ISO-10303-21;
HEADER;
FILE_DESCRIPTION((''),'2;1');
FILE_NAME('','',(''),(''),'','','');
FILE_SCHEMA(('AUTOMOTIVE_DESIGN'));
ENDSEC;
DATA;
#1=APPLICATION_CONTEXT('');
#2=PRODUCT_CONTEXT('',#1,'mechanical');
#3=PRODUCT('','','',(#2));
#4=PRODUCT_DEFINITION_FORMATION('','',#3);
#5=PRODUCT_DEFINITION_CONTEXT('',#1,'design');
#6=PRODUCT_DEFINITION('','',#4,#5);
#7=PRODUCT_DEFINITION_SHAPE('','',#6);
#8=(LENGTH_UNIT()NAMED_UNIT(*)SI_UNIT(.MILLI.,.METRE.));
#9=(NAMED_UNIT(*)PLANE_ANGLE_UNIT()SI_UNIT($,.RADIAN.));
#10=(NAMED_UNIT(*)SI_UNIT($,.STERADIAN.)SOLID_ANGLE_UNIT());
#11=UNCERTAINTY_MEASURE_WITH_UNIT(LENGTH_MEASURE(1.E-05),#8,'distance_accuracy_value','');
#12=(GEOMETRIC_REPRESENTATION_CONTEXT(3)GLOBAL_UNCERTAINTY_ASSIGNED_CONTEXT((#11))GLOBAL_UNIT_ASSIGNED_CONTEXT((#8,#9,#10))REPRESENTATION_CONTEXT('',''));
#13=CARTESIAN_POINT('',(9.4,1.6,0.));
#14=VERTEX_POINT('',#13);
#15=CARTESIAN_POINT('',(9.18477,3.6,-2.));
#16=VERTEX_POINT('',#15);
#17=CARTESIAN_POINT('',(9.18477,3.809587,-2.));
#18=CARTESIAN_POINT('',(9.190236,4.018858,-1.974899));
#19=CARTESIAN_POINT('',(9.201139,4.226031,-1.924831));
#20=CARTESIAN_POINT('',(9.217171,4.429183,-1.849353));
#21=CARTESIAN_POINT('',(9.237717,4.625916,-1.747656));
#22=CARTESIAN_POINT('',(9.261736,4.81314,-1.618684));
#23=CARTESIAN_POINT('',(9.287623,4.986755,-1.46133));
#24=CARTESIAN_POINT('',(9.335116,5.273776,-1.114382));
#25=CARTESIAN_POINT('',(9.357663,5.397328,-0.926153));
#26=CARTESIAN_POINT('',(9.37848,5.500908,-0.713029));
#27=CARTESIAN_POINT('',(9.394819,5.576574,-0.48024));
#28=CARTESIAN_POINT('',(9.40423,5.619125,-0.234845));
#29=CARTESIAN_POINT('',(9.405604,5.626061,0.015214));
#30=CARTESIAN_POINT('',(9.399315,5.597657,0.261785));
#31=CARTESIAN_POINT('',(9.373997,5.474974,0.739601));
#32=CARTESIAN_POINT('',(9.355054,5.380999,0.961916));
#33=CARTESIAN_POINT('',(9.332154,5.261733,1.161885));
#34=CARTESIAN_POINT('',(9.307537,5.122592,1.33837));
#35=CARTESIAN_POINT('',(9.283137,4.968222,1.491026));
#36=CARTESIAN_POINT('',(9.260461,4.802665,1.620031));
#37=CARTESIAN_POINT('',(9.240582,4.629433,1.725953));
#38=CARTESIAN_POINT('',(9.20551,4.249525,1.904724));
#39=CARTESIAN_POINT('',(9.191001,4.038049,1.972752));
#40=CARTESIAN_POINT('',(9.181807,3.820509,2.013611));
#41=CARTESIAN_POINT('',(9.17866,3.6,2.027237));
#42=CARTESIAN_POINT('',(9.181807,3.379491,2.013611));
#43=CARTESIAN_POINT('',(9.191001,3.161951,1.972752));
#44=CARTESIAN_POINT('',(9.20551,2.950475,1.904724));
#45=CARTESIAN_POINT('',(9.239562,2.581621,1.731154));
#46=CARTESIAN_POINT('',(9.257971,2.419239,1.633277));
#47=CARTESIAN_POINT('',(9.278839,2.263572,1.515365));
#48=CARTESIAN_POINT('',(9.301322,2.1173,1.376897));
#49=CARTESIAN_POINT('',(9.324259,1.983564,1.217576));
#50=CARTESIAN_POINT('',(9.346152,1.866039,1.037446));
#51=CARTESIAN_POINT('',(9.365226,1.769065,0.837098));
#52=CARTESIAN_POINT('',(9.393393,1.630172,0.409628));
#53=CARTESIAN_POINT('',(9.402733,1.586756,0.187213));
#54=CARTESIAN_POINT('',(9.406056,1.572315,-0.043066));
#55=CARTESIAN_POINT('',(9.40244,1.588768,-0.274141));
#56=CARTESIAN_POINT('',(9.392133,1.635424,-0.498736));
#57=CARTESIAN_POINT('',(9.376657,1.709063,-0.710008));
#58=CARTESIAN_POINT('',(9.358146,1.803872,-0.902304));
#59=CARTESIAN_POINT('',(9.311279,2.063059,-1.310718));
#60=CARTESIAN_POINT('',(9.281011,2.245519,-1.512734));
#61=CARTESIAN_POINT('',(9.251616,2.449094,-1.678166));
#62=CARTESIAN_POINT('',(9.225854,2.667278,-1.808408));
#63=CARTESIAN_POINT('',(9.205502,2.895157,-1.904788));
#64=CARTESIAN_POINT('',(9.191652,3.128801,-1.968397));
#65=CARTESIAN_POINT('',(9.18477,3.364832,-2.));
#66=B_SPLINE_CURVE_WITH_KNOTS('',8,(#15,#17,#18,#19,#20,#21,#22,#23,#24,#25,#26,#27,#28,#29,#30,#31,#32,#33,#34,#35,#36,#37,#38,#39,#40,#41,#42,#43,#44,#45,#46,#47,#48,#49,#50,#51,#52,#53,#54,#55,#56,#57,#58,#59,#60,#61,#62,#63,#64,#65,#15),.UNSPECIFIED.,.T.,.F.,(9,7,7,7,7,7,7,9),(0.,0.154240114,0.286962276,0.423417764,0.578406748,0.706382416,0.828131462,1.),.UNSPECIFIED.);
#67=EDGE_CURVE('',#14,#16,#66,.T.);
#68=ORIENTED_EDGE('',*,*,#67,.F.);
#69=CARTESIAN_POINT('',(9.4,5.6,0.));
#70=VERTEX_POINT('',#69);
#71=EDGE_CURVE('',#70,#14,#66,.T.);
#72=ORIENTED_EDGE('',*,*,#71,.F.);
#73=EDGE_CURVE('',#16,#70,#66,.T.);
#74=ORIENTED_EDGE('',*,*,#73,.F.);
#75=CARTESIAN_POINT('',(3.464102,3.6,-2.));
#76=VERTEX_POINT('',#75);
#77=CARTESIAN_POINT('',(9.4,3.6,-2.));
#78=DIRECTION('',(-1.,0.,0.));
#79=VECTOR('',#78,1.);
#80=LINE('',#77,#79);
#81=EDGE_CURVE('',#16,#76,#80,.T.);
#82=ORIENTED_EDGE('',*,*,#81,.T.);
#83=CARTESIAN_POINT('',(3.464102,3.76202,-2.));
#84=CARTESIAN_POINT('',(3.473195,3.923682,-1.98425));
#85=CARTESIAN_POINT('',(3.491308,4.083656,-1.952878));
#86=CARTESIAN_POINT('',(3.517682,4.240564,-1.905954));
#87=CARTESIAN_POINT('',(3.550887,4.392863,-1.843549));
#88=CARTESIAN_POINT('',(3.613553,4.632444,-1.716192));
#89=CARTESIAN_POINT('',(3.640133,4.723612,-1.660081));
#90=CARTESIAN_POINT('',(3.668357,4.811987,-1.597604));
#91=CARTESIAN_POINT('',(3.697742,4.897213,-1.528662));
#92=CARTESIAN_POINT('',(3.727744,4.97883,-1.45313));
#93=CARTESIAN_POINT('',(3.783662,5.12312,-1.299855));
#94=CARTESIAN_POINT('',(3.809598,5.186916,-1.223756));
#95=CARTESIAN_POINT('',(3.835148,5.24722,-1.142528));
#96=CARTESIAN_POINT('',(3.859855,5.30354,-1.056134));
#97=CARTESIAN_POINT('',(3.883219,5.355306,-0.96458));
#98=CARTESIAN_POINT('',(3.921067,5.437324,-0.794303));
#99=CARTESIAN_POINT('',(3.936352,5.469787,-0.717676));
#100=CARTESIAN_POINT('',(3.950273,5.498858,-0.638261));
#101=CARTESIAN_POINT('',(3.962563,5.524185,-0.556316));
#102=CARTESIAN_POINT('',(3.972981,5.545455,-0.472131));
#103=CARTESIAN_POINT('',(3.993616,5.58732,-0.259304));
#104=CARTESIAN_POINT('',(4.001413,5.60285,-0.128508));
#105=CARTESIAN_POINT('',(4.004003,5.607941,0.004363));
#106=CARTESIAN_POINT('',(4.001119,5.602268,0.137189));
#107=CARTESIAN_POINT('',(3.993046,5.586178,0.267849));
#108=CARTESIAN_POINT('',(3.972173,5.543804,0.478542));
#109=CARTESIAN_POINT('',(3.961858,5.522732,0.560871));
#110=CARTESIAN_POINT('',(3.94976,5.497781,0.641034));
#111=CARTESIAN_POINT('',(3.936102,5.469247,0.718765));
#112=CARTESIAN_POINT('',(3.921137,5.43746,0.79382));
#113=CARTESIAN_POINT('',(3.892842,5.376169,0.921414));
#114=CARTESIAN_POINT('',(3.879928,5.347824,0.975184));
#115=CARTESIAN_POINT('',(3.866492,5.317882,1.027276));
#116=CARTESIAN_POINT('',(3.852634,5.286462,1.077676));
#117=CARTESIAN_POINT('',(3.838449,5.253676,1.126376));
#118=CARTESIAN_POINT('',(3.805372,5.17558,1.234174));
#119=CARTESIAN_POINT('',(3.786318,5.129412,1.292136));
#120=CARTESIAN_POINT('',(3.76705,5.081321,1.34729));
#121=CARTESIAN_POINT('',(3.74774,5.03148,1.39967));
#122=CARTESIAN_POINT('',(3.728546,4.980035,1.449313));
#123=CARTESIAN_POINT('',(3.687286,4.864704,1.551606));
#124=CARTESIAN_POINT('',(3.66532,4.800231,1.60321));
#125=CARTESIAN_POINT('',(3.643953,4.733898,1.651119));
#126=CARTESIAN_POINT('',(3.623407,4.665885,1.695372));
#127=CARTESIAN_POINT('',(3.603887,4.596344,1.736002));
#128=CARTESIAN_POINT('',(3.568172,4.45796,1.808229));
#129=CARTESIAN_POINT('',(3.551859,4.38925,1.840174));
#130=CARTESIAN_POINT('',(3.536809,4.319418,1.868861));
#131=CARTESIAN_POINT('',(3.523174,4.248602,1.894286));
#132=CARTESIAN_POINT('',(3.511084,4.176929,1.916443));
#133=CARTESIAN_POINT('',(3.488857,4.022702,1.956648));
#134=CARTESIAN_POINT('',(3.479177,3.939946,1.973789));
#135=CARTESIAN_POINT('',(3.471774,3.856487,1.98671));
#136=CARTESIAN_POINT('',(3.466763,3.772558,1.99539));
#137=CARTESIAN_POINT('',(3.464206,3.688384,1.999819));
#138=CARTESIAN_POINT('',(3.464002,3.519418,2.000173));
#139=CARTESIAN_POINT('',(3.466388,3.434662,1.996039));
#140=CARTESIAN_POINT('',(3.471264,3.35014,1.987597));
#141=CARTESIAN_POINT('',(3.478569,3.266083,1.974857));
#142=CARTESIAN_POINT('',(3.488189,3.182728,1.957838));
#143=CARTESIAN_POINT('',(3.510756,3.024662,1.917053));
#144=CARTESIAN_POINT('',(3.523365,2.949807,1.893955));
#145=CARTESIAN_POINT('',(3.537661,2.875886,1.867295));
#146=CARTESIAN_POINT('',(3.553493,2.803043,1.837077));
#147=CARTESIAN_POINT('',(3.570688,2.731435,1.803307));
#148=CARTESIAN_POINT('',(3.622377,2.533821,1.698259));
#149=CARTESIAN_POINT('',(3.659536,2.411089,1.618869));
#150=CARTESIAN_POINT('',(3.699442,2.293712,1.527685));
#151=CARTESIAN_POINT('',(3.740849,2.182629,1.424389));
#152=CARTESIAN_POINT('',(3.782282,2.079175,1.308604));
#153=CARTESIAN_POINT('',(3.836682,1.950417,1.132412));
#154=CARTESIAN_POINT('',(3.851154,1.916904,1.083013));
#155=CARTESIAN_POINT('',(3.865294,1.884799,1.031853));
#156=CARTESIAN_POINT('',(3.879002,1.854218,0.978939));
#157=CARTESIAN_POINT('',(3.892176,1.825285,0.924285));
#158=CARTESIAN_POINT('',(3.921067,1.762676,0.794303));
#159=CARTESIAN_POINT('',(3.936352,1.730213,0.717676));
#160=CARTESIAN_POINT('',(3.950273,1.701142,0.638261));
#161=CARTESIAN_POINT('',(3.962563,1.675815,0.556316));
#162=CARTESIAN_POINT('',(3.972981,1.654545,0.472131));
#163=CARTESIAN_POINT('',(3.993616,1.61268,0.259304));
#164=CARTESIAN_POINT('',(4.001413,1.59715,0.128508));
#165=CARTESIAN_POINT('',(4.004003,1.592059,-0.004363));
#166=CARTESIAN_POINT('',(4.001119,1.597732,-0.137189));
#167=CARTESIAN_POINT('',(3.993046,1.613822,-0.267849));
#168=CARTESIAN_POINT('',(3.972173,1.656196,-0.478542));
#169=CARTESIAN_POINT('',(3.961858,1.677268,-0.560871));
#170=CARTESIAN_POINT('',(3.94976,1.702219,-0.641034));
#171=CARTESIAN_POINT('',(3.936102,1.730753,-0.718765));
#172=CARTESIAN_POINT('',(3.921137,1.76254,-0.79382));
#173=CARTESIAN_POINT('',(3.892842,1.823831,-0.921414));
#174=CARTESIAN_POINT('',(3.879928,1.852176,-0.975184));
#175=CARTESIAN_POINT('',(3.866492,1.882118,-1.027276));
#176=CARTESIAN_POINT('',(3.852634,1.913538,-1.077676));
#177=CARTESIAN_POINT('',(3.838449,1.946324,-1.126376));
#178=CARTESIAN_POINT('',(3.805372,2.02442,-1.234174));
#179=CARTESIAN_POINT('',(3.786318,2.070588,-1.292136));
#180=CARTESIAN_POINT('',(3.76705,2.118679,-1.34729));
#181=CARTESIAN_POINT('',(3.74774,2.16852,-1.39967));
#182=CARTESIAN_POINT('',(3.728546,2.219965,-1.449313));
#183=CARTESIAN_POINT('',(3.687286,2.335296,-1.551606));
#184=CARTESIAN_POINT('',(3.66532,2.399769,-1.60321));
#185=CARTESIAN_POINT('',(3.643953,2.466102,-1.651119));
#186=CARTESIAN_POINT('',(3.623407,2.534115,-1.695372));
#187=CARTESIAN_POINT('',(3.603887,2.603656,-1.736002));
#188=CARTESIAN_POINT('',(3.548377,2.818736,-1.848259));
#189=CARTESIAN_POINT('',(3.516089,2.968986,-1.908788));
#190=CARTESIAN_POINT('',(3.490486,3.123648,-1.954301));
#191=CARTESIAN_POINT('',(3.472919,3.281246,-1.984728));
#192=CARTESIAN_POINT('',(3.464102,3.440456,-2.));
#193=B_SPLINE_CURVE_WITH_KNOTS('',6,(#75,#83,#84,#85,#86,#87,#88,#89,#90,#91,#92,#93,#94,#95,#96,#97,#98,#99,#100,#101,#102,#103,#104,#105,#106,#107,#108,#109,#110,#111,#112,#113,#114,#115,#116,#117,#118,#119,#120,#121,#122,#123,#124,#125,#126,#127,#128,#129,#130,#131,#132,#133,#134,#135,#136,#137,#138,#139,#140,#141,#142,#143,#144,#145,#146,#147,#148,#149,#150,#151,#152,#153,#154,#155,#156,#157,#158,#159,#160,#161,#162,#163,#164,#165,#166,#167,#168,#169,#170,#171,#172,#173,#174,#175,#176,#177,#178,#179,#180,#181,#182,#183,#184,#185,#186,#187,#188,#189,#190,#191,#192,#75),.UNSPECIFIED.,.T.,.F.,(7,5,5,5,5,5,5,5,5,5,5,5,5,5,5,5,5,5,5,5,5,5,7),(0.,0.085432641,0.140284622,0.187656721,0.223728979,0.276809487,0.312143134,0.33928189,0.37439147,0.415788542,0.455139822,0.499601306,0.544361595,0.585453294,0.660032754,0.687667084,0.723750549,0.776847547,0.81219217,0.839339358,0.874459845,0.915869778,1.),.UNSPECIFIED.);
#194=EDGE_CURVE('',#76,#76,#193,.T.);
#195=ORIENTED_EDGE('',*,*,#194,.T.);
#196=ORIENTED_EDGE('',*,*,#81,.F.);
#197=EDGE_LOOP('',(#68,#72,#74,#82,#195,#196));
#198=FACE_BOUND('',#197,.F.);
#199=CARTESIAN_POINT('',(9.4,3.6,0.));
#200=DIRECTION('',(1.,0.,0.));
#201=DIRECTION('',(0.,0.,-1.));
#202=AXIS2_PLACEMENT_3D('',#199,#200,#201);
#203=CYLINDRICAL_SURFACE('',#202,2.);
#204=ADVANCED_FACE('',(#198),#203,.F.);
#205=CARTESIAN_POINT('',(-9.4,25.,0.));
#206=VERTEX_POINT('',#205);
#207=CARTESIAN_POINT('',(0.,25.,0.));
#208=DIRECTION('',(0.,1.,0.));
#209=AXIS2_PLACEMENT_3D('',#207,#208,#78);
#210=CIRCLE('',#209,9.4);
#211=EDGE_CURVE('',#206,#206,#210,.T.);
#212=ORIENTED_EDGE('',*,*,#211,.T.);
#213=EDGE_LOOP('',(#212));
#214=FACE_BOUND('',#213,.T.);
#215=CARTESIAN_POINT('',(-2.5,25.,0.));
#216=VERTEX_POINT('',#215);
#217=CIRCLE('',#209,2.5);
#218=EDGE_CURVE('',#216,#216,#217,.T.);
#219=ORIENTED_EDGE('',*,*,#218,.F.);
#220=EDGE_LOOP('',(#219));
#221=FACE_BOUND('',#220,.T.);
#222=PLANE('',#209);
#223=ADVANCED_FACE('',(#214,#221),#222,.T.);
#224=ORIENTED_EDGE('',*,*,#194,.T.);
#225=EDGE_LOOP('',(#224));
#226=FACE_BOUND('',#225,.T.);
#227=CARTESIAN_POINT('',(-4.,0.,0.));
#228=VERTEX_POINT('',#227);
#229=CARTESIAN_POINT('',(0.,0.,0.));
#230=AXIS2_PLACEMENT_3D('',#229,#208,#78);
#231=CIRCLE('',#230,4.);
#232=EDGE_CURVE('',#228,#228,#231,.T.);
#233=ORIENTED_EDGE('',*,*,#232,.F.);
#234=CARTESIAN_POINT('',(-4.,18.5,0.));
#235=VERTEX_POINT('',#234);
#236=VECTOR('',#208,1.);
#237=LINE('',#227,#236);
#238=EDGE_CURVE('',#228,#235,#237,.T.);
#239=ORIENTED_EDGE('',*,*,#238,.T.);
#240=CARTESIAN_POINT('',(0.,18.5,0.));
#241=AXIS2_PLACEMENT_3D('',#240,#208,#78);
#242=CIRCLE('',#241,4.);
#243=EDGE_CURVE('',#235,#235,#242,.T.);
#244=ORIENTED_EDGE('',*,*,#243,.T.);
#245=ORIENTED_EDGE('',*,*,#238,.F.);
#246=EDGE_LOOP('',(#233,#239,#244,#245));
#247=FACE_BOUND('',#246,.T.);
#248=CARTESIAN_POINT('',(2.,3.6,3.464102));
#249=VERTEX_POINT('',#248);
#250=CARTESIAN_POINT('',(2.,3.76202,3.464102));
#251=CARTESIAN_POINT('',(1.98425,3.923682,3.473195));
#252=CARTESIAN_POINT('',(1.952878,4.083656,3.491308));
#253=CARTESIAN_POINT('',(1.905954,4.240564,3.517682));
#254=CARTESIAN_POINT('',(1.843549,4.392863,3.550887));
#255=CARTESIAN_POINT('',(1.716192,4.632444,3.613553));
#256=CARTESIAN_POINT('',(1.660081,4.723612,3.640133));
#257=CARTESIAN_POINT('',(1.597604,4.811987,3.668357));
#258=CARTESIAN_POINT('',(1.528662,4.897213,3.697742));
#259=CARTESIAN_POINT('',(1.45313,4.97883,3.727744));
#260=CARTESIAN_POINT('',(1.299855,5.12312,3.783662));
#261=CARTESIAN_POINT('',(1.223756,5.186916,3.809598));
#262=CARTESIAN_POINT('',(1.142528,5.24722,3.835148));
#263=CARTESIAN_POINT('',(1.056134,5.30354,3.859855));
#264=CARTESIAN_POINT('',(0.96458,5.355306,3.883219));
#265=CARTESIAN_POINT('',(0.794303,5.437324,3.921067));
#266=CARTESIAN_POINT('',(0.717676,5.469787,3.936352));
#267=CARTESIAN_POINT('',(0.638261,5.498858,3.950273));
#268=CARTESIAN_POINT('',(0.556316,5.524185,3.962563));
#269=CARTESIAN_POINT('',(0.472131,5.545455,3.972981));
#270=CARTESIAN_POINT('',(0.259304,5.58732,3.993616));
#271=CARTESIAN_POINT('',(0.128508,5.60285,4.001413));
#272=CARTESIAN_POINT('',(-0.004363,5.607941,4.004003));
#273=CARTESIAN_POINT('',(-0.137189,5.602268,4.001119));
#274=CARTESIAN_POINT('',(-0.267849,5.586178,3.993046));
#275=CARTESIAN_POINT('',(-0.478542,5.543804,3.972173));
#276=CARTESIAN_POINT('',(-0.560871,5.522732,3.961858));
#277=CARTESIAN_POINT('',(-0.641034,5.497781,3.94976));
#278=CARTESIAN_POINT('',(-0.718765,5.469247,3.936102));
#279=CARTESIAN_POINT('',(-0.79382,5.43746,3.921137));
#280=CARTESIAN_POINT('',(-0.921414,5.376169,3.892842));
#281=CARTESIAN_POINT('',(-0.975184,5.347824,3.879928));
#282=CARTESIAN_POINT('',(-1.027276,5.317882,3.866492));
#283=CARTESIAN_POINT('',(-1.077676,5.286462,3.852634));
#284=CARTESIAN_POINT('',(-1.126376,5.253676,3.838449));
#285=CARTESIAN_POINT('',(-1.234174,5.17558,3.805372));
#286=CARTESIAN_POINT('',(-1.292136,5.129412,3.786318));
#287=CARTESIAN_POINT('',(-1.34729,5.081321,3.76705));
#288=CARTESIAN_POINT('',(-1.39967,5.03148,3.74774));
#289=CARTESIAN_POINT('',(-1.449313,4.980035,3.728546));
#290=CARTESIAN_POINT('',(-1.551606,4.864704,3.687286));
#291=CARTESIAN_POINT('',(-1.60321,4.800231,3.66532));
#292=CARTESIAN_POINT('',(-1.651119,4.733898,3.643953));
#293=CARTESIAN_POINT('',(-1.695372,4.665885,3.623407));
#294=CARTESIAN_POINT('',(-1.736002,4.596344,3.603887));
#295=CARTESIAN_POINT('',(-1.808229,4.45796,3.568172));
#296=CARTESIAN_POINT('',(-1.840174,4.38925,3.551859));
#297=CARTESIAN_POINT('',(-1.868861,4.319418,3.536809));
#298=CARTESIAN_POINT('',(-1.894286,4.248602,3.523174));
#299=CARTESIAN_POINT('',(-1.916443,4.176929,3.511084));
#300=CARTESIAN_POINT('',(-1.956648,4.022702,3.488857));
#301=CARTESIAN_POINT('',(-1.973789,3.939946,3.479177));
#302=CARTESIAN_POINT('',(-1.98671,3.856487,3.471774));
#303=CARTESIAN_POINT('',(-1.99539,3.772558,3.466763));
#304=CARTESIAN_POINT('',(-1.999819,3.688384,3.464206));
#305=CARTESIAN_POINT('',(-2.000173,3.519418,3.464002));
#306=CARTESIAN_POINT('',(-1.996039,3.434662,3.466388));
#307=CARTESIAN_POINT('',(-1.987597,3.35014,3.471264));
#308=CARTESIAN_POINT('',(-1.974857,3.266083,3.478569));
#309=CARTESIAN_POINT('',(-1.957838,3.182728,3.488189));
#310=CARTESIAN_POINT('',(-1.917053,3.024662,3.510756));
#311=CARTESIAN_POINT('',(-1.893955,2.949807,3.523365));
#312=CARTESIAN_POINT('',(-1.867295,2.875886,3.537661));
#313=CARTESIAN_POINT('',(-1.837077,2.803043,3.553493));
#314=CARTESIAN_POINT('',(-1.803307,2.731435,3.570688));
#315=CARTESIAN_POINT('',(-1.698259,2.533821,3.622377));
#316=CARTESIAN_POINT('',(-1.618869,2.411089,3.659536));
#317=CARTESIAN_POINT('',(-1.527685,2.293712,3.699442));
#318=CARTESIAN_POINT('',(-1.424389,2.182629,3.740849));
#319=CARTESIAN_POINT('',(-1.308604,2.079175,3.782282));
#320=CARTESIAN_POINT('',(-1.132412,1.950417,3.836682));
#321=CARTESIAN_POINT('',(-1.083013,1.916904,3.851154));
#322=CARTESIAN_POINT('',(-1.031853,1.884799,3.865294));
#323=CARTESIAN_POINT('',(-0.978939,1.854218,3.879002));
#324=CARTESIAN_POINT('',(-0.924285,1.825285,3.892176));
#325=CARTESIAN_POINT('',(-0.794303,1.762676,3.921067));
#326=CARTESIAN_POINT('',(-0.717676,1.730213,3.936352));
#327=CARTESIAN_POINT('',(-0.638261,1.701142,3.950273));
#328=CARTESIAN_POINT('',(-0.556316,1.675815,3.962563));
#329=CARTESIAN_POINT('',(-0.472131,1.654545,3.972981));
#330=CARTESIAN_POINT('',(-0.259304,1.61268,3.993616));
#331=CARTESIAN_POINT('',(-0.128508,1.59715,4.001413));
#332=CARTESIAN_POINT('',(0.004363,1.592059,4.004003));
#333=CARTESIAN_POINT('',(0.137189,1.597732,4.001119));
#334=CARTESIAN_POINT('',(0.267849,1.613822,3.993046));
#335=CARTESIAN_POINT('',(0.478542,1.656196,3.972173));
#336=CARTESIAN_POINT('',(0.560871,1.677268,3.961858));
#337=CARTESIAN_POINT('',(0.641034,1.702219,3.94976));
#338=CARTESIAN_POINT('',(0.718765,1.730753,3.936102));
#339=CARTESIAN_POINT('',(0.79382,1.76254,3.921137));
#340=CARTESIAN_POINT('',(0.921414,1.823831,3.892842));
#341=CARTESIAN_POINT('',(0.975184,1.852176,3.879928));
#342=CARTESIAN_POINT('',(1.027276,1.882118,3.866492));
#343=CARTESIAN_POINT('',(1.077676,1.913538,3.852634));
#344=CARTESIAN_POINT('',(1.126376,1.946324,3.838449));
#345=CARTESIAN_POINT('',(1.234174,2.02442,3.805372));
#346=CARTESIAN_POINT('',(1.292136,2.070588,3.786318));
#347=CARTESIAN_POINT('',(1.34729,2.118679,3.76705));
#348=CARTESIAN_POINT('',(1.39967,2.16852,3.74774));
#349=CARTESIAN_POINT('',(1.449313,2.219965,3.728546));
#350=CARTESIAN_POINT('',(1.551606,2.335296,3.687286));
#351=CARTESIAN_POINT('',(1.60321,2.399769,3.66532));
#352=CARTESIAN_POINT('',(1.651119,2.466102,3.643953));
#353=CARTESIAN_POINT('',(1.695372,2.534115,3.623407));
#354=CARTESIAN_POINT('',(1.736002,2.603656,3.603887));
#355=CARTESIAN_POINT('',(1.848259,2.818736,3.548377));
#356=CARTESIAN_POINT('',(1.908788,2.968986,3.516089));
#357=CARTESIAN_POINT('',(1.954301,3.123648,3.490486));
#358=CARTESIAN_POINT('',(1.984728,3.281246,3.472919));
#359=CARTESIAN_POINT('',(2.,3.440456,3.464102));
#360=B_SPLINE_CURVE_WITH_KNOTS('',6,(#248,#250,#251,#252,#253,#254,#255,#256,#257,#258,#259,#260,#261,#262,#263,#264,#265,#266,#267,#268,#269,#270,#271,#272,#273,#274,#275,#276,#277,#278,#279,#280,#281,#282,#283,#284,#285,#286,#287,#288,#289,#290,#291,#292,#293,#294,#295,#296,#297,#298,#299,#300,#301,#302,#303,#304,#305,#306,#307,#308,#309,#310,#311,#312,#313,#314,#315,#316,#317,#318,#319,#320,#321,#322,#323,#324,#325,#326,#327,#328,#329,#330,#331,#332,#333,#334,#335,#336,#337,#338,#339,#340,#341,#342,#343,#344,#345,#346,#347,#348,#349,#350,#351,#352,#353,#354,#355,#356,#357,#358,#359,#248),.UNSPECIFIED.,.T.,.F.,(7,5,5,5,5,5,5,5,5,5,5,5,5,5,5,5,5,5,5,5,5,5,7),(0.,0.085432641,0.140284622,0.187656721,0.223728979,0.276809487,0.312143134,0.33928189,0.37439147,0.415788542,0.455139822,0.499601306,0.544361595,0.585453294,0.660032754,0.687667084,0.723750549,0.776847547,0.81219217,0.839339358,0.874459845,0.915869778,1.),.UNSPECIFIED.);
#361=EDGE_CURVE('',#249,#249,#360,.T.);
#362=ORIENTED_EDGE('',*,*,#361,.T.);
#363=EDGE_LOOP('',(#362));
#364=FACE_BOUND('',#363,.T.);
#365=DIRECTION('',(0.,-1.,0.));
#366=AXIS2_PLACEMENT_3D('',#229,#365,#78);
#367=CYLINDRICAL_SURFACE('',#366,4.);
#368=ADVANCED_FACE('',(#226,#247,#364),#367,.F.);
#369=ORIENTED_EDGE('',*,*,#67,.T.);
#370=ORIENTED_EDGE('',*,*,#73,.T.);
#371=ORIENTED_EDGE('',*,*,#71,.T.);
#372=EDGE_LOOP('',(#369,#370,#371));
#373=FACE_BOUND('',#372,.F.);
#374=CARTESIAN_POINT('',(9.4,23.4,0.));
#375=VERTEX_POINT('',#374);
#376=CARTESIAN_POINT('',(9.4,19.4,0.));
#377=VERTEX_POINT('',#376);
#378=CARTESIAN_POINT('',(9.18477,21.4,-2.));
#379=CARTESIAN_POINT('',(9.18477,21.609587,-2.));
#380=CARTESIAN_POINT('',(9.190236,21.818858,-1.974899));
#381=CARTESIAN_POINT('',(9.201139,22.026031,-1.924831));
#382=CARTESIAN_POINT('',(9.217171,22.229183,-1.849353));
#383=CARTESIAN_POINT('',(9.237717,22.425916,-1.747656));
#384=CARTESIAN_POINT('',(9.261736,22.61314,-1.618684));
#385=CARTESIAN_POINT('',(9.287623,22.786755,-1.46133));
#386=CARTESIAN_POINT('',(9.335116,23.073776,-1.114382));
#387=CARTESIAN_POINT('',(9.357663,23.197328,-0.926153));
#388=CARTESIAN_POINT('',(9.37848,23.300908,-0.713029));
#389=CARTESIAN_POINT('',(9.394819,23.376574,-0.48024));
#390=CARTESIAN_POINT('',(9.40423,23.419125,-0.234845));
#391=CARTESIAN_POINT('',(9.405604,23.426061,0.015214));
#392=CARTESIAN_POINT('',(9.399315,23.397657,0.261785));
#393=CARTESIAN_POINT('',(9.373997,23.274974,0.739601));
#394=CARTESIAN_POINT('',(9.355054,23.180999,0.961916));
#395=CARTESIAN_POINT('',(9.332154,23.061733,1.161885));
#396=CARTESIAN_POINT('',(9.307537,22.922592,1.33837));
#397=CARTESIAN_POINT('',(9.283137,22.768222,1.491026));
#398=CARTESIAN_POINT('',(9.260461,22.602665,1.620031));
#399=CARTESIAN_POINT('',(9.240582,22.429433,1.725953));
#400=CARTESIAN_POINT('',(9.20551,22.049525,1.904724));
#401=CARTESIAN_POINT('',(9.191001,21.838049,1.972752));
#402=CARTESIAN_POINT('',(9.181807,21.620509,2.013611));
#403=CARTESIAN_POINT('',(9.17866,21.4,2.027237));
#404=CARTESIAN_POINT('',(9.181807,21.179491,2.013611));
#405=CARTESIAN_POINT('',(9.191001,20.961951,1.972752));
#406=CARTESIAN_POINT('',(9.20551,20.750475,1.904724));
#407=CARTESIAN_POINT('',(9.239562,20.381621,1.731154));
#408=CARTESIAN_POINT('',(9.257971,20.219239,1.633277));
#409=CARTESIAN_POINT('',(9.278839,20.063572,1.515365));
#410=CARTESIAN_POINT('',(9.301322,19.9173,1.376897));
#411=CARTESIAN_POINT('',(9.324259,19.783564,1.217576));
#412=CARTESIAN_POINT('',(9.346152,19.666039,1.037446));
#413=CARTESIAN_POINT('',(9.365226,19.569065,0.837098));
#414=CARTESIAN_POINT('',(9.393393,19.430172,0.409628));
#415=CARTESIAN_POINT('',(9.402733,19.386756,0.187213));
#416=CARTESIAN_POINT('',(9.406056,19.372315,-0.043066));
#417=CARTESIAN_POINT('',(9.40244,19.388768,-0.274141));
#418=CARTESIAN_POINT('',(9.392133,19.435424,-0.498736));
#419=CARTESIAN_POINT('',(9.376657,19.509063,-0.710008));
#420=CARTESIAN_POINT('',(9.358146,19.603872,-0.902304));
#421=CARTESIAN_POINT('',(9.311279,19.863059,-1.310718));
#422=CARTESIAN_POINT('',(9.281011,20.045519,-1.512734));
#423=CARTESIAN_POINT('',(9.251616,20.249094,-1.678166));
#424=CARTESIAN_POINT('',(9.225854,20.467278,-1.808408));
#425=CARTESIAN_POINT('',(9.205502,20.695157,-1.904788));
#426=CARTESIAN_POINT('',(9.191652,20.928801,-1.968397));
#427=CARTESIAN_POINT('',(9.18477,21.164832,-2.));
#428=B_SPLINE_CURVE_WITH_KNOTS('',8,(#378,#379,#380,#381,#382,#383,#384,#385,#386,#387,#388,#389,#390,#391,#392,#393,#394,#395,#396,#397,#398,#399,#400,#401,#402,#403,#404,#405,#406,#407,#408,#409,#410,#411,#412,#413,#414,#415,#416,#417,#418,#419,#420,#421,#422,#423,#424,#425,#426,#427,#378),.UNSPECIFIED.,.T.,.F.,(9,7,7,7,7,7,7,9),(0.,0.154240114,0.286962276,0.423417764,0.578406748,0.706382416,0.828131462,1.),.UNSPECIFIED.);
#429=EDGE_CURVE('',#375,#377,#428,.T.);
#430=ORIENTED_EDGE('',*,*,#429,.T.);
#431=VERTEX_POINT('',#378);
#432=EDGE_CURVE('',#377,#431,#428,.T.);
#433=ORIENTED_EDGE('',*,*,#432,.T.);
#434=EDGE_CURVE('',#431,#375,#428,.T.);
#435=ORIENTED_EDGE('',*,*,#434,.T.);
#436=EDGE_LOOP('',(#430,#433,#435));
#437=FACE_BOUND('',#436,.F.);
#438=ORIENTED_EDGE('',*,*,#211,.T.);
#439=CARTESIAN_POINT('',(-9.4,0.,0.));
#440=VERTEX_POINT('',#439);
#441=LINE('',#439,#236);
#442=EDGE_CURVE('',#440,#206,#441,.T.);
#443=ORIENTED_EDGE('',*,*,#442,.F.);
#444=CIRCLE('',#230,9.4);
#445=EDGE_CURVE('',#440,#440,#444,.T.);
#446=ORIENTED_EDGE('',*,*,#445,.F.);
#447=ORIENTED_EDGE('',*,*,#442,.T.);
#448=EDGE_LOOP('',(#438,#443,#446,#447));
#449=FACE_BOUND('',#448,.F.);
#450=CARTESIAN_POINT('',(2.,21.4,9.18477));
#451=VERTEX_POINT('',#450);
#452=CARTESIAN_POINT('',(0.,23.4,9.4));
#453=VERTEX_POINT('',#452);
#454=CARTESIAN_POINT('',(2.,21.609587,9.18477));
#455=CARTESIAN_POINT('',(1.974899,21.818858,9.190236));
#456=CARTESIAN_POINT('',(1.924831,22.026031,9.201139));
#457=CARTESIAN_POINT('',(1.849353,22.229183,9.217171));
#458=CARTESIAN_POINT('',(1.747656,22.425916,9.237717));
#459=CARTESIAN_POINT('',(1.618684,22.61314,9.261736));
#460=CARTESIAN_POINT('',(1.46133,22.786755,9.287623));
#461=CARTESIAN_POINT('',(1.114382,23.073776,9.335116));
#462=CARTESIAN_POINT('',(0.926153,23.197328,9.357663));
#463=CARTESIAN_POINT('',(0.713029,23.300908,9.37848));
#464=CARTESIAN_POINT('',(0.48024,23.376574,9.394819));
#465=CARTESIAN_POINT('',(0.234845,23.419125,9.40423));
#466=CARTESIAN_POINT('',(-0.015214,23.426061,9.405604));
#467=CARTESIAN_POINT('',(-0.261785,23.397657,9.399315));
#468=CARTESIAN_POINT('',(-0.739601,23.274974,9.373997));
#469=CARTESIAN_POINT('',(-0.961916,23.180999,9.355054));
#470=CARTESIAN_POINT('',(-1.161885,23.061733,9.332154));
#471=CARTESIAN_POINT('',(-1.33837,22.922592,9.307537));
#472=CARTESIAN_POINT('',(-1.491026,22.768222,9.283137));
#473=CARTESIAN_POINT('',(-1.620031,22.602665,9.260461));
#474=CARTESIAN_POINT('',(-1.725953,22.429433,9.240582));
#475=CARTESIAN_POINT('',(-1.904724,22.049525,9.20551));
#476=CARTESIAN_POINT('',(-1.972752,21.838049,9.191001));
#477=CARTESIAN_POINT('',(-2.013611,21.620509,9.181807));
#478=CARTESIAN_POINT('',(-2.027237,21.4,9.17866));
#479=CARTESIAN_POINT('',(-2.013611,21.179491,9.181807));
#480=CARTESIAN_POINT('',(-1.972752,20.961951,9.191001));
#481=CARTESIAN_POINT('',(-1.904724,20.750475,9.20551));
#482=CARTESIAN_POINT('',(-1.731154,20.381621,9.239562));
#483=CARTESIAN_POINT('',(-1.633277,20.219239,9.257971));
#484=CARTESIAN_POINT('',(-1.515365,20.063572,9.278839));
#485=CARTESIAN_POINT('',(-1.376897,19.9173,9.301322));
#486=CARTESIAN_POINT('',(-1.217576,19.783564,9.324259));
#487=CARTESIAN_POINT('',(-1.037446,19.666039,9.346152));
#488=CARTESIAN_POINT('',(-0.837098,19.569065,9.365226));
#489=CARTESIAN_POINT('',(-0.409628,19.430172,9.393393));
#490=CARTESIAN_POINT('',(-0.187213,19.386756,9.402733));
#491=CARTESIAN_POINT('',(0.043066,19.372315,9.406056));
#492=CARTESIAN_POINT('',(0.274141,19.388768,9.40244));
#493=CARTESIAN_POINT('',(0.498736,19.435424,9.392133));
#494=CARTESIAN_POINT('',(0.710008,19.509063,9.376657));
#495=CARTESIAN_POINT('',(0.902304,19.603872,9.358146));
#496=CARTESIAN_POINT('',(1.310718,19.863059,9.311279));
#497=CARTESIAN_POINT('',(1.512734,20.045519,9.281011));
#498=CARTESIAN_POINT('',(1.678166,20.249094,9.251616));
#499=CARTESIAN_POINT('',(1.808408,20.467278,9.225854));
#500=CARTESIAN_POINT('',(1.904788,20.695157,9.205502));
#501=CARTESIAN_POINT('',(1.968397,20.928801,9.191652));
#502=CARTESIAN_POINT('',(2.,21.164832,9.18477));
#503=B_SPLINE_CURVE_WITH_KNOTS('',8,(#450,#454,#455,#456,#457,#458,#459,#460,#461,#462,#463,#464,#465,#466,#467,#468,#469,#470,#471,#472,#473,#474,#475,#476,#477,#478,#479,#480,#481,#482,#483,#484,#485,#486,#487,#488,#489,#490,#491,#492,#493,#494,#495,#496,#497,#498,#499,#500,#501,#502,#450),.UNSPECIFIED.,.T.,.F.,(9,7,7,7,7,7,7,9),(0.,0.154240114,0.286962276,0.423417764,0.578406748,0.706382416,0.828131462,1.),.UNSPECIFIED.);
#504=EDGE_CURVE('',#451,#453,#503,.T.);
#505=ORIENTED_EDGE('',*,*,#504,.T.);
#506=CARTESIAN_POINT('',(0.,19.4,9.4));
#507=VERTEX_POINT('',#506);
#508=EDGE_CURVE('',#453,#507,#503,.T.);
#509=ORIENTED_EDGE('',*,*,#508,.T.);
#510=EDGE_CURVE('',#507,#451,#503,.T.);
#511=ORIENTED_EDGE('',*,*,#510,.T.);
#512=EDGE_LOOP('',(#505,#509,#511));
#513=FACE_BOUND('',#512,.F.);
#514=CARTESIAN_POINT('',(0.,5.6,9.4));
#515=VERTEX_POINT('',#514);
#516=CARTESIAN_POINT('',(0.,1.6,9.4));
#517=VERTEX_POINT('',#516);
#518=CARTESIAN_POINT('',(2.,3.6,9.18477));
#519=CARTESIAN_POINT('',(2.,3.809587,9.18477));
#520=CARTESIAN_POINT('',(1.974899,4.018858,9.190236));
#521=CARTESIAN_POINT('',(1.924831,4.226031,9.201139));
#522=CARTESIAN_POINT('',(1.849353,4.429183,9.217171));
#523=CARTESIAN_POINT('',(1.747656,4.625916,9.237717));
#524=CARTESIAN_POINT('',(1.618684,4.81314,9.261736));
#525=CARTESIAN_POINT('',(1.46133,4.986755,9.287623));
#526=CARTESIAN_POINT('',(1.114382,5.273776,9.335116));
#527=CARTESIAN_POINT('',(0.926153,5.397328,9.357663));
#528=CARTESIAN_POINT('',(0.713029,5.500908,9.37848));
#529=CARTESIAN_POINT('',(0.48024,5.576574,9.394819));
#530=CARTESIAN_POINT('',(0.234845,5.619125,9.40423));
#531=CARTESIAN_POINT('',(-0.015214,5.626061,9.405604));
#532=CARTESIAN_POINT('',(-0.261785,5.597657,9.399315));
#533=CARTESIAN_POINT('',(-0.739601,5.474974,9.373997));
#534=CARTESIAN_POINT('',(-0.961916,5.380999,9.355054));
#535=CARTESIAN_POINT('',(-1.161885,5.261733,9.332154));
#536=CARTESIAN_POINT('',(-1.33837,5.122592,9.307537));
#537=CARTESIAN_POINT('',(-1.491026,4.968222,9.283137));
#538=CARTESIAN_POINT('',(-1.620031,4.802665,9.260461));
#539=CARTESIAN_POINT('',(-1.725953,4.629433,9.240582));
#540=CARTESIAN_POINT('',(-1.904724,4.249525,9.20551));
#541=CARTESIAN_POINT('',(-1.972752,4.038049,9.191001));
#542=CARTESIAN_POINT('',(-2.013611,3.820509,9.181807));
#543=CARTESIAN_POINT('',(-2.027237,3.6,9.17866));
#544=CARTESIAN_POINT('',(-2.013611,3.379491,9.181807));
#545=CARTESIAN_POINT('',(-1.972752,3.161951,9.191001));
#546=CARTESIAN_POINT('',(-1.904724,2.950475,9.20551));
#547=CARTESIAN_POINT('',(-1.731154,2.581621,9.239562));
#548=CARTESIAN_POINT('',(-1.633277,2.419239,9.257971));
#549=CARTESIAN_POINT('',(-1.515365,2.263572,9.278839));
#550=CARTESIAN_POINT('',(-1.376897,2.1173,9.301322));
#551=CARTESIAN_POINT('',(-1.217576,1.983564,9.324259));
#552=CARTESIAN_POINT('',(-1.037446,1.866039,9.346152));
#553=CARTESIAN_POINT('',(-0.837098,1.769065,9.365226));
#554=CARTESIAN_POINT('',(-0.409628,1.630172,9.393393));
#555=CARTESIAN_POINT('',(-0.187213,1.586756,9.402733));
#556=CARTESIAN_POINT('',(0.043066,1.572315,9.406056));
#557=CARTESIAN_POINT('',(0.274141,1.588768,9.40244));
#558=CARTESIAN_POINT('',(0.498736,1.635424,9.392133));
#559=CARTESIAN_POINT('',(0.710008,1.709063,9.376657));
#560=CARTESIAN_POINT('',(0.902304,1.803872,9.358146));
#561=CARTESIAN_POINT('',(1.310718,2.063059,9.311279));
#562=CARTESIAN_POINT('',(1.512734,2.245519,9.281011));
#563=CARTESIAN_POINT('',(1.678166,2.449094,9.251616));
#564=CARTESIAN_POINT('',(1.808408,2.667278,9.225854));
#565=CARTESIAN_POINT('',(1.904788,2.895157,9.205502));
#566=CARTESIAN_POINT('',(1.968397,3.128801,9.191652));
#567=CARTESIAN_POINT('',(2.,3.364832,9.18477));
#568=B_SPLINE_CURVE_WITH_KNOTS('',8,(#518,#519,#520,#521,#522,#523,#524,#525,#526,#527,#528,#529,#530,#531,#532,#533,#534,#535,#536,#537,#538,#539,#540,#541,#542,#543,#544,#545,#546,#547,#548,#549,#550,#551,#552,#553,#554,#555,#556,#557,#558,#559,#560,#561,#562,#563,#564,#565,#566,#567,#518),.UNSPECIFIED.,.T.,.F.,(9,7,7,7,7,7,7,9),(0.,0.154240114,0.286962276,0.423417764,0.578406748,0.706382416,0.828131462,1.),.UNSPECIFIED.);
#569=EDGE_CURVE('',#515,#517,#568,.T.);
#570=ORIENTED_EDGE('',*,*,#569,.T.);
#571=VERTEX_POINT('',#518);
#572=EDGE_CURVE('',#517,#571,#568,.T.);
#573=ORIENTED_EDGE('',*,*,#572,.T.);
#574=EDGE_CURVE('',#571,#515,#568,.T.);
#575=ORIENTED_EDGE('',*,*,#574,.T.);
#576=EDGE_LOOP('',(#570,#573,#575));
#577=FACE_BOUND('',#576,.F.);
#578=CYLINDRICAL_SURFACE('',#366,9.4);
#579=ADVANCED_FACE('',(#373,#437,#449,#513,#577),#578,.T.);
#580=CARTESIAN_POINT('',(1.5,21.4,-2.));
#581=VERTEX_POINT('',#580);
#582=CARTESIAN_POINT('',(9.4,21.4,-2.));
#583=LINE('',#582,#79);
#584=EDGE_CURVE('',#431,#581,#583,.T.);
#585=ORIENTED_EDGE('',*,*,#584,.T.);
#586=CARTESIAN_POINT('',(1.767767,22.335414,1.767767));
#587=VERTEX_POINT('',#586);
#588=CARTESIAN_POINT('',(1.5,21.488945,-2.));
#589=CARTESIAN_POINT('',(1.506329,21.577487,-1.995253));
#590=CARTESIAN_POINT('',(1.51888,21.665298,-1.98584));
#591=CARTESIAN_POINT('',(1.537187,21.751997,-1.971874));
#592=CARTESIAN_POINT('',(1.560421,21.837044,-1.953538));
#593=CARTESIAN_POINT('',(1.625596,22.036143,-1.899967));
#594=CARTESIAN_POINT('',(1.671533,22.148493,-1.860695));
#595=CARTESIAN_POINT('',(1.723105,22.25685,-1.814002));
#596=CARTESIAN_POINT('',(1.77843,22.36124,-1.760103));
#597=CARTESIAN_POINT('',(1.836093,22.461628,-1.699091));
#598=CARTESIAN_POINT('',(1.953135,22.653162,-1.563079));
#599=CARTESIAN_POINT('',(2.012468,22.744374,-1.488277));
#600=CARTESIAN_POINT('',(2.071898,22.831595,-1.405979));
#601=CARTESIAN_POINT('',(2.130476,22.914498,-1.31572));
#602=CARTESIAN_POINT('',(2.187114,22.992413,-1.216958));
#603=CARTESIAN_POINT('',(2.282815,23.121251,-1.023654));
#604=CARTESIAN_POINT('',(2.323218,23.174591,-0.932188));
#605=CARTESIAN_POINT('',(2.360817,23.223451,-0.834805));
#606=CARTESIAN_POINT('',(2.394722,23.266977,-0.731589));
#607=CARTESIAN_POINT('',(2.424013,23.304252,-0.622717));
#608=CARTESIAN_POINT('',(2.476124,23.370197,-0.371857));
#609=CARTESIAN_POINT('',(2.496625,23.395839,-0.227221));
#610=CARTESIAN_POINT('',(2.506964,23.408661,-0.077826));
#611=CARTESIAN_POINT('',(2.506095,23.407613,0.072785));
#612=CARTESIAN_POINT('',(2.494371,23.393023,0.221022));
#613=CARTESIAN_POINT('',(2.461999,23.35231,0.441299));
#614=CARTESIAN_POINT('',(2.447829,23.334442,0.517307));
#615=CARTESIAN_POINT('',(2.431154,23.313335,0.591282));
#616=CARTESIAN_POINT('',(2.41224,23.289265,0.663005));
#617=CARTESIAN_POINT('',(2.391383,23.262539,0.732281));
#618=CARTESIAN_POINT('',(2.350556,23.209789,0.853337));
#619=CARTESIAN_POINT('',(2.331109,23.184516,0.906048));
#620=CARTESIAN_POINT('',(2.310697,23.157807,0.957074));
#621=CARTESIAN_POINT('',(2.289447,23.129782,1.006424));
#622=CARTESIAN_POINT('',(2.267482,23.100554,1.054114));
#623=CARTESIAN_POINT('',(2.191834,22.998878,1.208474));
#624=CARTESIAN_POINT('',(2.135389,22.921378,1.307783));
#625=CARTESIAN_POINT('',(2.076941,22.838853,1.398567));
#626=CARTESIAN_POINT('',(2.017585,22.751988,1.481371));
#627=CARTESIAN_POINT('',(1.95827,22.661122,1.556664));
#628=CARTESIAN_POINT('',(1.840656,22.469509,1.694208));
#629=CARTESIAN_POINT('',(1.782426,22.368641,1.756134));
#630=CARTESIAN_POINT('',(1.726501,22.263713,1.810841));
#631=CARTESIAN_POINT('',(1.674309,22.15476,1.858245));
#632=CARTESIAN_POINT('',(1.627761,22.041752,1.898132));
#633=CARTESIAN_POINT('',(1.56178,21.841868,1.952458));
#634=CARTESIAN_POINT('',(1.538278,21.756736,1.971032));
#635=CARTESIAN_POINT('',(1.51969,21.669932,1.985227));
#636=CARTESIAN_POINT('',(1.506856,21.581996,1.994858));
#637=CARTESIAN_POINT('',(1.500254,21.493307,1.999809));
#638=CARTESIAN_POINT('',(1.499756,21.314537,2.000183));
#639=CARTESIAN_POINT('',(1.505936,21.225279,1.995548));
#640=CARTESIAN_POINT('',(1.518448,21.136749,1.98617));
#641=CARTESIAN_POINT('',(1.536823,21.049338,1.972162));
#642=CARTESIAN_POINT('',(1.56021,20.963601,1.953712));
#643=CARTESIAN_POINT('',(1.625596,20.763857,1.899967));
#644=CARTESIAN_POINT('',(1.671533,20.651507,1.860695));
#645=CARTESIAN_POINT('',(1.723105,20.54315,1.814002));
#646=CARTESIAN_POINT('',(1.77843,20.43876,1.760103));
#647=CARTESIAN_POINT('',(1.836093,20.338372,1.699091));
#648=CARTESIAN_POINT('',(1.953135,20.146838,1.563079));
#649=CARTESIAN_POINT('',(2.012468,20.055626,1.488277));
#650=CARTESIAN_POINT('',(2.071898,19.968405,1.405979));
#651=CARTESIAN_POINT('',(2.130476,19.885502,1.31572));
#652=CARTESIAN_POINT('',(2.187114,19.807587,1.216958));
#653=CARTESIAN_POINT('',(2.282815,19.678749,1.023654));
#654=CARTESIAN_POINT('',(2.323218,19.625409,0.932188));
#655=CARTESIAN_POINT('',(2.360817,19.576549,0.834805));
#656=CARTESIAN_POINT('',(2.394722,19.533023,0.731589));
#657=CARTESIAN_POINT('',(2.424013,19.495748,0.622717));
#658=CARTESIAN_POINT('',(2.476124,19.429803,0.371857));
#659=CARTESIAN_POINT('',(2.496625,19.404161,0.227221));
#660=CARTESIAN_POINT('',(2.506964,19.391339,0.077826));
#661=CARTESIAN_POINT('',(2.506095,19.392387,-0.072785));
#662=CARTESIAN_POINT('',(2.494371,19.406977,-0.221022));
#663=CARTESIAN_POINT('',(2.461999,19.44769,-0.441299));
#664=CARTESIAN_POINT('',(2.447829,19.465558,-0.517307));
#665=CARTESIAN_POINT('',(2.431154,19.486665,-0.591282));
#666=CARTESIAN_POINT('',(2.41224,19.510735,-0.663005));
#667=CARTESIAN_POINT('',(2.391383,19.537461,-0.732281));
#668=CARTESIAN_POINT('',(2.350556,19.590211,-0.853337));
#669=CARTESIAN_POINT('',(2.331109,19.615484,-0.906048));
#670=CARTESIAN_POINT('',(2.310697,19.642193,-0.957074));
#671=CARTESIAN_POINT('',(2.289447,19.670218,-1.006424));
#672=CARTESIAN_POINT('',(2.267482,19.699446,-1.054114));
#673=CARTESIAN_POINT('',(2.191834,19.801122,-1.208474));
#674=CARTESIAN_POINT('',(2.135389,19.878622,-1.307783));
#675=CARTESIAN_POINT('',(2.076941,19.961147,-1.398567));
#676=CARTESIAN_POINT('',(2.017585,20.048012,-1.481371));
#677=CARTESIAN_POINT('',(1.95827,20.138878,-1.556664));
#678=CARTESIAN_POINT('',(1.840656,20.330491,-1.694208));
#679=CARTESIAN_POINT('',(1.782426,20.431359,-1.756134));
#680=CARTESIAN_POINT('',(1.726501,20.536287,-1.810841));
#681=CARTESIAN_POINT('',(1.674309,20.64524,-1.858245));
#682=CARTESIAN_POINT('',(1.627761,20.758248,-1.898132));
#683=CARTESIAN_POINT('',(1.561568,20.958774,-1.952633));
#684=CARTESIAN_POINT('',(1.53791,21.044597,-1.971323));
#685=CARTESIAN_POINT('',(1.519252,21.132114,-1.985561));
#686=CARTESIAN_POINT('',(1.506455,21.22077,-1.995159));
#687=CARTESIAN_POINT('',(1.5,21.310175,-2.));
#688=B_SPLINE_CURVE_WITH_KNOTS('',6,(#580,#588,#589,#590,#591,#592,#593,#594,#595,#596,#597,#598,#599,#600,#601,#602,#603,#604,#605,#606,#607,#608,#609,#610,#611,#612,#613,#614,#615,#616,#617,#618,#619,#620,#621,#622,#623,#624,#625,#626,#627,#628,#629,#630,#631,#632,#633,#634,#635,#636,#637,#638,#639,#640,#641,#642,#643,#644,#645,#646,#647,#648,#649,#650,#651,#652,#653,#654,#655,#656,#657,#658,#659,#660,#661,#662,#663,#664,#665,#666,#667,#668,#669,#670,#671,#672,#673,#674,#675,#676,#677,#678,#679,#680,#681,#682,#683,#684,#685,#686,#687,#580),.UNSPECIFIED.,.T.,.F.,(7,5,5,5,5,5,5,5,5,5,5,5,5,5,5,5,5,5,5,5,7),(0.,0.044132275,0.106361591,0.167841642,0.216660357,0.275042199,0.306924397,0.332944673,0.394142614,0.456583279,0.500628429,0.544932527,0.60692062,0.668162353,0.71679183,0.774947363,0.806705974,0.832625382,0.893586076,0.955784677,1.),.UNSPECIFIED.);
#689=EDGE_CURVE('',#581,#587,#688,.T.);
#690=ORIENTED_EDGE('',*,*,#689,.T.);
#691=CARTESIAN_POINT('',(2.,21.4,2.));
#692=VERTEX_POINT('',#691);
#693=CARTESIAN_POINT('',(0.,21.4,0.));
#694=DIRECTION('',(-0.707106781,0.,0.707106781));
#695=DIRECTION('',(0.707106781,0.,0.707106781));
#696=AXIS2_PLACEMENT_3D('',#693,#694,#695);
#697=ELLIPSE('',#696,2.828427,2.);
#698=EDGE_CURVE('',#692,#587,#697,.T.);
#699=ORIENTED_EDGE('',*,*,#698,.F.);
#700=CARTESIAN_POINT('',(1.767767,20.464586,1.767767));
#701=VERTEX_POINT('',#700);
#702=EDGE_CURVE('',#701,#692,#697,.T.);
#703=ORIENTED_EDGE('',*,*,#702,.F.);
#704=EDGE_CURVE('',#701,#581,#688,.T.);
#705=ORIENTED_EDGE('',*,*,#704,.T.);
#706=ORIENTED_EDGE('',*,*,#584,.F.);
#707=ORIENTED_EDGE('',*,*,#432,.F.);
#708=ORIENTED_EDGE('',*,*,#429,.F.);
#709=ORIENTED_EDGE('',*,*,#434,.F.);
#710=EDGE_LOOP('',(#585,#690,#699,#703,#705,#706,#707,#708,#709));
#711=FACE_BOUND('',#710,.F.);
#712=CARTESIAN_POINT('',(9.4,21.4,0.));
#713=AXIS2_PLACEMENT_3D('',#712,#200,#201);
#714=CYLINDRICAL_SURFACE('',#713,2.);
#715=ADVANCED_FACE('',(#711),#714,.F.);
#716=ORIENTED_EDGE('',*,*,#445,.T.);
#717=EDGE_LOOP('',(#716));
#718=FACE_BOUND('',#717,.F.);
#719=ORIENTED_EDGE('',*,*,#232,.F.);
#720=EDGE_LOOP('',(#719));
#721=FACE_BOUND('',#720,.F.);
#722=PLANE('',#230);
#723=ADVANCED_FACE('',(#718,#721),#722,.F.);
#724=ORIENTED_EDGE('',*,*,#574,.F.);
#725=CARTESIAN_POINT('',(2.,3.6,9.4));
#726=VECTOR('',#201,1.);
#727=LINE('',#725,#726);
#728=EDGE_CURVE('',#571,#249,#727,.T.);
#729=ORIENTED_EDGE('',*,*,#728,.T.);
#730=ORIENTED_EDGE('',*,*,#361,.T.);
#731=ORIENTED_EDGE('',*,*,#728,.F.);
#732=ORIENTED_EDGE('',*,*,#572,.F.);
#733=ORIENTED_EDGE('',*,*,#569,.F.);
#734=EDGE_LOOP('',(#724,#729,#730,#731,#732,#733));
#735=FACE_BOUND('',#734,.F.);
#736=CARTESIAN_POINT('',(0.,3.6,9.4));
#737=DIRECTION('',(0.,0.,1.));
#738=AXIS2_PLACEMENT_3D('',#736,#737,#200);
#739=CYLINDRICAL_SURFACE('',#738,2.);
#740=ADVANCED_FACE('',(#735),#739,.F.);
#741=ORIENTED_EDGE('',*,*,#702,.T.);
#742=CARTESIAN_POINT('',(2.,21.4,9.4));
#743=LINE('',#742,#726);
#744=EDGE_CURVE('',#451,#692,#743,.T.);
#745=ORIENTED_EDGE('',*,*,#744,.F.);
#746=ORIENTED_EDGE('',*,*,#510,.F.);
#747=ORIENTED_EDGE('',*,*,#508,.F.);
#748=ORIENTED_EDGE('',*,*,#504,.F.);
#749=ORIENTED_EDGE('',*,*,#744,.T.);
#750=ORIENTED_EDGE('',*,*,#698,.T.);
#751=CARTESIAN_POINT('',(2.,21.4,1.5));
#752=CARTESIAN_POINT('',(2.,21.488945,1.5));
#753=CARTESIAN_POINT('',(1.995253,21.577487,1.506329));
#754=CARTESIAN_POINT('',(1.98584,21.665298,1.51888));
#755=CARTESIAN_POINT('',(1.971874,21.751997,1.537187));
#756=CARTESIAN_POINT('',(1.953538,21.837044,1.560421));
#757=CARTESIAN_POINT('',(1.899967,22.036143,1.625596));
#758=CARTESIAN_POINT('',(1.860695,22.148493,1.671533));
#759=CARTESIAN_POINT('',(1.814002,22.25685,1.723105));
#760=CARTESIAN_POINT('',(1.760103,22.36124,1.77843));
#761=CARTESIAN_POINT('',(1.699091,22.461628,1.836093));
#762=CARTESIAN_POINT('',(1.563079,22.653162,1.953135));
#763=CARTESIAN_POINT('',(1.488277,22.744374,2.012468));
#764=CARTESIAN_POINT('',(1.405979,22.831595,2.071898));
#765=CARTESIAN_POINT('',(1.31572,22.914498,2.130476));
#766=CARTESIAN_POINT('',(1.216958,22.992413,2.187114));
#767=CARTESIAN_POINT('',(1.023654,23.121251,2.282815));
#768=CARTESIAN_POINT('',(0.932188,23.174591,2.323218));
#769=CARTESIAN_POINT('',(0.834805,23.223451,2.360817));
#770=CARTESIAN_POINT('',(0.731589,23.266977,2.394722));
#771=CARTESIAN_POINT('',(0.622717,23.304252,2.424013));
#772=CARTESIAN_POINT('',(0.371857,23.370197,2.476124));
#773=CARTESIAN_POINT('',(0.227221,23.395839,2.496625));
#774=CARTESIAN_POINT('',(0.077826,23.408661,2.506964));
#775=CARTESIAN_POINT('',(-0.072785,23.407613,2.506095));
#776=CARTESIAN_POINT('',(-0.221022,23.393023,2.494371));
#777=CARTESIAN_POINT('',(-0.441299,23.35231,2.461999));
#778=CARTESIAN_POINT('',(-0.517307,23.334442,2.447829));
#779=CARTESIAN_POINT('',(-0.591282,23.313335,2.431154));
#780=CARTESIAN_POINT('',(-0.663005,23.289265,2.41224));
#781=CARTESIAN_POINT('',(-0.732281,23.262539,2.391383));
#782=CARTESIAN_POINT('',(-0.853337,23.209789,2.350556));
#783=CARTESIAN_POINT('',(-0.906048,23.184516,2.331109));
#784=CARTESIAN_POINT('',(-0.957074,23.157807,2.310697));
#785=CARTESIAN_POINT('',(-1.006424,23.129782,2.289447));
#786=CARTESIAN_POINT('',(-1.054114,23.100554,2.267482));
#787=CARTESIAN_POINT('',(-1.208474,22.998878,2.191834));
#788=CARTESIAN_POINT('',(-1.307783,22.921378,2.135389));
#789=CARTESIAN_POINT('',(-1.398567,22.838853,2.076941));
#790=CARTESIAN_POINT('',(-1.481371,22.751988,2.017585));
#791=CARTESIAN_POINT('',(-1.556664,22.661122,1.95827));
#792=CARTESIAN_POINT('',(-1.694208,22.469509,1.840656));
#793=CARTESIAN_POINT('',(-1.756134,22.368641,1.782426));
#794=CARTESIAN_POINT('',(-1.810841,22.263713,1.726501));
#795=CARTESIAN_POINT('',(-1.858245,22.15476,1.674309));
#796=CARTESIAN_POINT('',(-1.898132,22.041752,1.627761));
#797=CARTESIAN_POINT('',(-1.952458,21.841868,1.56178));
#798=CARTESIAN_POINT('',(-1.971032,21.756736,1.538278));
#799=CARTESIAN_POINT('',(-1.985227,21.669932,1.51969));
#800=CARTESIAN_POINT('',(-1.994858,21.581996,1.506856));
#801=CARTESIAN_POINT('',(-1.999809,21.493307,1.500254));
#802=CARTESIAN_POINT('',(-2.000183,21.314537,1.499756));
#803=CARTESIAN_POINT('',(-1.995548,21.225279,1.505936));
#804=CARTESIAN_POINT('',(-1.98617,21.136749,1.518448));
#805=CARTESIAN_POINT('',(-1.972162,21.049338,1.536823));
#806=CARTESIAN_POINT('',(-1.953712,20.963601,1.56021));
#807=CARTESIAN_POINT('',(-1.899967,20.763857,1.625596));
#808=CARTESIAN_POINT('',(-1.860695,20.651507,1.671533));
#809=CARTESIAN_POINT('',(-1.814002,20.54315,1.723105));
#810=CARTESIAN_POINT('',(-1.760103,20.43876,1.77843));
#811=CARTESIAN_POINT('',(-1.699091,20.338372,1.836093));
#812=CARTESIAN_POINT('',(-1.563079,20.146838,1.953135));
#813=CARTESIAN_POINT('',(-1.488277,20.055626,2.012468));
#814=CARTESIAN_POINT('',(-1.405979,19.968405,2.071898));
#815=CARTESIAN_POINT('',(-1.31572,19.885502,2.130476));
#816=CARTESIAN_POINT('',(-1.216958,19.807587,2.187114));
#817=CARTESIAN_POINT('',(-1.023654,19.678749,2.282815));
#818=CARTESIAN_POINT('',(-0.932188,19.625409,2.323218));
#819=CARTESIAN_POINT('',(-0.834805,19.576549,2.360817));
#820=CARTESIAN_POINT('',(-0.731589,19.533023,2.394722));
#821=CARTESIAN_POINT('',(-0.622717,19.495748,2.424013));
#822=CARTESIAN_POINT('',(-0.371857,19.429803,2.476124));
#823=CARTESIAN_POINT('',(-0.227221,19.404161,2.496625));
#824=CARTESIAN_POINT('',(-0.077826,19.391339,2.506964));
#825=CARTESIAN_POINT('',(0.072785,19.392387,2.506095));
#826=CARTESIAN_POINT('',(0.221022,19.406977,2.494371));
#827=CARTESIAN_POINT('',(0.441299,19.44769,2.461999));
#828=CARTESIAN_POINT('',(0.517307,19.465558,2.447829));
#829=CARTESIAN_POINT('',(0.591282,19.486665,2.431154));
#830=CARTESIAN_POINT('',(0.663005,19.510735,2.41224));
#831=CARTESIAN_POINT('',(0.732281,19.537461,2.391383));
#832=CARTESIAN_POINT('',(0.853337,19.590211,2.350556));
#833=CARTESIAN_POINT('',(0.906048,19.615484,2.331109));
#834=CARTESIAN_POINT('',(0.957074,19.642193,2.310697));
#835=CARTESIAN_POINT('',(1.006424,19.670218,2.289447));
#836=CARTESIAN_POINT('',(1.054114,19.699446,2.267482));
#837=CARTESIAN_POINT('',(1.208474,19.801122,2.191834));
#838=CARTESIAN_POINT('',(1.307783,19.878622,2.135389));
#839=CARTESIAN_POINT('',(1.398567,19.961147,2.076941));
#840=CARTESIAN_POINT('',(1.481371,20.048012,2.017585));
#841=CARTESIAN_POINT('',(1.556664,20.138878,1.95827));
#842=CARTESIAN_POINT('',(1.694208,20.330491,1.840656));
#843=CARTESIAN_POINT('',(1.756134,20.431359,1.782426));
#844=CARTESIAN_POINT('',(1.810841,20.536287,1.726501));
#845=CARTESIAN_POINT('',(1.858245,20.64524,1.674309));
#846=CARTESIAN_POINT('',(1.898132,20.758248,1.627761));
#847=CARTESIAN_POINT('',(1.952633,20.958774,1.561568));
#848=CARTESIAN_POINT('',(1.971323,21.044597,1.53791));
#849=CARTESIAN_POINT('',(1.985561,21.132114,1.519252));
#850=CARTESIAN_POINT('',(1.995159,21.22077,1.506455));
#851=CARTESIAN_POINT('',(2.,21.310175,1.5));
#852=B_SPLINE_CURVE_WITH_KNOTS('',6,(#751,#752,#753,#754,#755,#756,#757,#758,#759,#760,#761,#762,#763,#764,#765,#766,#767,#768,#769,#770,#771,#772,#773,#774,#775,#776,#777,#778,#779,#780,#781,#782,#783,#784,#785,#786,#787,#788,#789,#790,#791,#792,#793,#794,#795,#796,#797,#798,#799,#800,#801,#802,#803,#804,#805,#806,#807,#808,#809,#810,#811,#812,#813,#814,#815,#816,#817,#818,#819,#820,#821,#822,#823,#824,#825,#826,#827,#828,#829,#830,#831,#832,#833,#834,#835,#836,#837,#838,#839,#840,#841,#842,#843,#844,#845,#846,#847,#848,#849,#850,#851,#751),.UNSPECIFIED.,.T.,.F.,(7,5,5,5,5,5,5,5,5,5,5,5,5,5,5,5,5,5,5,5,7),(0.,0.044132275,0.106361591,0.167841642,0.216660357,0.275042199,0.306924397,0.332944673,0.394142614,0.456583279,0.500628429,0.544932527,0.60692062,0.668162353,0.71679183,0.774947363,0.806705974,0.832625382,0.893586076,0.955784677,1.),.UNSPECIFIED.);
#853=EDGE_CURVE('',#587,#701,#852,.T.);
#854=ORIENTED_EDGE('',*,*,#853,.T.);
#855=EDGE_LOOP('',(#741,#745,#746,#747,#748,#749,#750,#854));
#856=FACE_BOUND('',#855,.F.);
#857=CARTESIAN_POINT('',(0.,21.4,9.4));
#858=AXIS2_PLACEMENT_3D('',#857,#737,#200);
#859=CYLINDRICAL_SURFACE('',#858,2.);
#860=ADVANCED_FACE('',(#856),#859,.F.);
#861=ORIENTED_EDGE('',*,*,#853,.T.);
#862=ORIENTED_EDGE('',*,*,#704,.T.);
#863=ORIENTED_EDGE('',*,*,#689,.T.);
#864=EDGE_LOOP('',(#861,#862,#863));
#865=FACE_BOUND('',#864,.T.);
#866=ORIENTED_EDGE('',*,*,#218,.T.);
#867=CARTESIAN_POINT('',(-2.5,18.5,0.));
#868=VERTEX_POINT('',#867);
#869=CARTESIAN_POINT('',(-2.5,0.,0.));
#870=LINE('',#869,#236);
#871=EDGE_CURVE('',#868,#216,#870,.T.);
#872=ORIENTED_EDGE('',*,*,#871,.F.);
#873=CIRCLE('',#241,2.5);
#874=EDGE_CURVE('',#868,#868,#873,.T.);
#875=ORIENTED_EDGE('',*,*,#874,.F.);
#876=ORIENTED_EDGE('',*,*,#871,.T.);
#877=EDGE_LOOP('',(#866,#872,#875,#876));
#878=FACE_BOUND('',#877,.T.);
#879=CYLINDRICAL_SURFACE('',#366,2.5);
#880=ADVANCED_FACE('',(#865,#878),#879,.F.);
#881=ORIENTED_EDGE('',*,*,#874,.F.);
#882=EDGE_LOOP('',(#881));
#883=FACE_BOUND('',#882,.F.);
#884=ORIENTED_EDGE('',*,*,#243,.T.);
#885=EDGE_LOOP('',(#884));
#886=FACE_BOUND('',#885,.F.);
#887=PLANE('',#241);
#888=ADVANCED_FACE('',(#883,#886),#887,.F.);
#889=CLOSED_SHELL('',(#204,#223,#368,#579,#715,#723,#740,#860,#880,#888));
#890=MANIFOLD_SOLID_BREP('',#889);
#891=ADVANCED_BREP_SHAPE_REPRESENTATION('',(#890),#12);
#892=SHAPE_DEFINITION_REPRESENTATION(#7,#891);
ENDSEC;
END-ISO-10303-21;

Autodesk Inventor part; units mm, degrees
ref_plane "YZ Plane" through (0, 0, 0) normal (1, 0, 0) x (0, 1, 0)
ref_plane "XZ Plane" through (0, 0, 0) normal (0, 1, 0) x (-1, 0, 0)
sketch "Sketch1" plane through (0, 0, 0) normal (0, 1, 0) x (-1, 0, 0)
  circle A0 centre (0, 0) radius 9.4
  circle A1 centre (0, 0) radius 4
  circle A2 centre (0, 0) radius 2.5
  dimension "d0" = 8
  dimension "d1" = 18.8
  dimension "d2" = 5
extrude "Extrusion1" add sketch "Sketch1" along normal blind 25 contours A0 | A1
extrude "Extrusion2" cut sketch "Sketch1" along normal blind 18.5 contours A1
ref_plane "Work Plane1" through (0, 0, 9.4) normal (0, 0, 1) x (1, 0, 0)
sketch "Sketch2" plane through (0, 0, 9.4) normal (0, 0, 1) x (1, 0, 0)
  circle A0 centre (0, 21.4) radius 2
  circle A1 centre (0, 3.6) radius 2
  line L0 (9.4, 0) -> (-9.4, 0) projected
  line L1 (9.4, 25) -> (-9.4, 25) projected
  point P0 (0, 0)
  dimension "d7" = 4
  dimension "d8" = 3.6
  dimension "d9" = 3.6
extrude "Extrusion3" cut sketch "Sketch2" against normal up to next
pattern_circular "Circular Pattern1" count 2 over 90 about axis through (0, 0, 0) along (0, 1, 0) of "Extrusion3"
equation "\"d9\" = d8"
properties part number "Shaft coupler"
